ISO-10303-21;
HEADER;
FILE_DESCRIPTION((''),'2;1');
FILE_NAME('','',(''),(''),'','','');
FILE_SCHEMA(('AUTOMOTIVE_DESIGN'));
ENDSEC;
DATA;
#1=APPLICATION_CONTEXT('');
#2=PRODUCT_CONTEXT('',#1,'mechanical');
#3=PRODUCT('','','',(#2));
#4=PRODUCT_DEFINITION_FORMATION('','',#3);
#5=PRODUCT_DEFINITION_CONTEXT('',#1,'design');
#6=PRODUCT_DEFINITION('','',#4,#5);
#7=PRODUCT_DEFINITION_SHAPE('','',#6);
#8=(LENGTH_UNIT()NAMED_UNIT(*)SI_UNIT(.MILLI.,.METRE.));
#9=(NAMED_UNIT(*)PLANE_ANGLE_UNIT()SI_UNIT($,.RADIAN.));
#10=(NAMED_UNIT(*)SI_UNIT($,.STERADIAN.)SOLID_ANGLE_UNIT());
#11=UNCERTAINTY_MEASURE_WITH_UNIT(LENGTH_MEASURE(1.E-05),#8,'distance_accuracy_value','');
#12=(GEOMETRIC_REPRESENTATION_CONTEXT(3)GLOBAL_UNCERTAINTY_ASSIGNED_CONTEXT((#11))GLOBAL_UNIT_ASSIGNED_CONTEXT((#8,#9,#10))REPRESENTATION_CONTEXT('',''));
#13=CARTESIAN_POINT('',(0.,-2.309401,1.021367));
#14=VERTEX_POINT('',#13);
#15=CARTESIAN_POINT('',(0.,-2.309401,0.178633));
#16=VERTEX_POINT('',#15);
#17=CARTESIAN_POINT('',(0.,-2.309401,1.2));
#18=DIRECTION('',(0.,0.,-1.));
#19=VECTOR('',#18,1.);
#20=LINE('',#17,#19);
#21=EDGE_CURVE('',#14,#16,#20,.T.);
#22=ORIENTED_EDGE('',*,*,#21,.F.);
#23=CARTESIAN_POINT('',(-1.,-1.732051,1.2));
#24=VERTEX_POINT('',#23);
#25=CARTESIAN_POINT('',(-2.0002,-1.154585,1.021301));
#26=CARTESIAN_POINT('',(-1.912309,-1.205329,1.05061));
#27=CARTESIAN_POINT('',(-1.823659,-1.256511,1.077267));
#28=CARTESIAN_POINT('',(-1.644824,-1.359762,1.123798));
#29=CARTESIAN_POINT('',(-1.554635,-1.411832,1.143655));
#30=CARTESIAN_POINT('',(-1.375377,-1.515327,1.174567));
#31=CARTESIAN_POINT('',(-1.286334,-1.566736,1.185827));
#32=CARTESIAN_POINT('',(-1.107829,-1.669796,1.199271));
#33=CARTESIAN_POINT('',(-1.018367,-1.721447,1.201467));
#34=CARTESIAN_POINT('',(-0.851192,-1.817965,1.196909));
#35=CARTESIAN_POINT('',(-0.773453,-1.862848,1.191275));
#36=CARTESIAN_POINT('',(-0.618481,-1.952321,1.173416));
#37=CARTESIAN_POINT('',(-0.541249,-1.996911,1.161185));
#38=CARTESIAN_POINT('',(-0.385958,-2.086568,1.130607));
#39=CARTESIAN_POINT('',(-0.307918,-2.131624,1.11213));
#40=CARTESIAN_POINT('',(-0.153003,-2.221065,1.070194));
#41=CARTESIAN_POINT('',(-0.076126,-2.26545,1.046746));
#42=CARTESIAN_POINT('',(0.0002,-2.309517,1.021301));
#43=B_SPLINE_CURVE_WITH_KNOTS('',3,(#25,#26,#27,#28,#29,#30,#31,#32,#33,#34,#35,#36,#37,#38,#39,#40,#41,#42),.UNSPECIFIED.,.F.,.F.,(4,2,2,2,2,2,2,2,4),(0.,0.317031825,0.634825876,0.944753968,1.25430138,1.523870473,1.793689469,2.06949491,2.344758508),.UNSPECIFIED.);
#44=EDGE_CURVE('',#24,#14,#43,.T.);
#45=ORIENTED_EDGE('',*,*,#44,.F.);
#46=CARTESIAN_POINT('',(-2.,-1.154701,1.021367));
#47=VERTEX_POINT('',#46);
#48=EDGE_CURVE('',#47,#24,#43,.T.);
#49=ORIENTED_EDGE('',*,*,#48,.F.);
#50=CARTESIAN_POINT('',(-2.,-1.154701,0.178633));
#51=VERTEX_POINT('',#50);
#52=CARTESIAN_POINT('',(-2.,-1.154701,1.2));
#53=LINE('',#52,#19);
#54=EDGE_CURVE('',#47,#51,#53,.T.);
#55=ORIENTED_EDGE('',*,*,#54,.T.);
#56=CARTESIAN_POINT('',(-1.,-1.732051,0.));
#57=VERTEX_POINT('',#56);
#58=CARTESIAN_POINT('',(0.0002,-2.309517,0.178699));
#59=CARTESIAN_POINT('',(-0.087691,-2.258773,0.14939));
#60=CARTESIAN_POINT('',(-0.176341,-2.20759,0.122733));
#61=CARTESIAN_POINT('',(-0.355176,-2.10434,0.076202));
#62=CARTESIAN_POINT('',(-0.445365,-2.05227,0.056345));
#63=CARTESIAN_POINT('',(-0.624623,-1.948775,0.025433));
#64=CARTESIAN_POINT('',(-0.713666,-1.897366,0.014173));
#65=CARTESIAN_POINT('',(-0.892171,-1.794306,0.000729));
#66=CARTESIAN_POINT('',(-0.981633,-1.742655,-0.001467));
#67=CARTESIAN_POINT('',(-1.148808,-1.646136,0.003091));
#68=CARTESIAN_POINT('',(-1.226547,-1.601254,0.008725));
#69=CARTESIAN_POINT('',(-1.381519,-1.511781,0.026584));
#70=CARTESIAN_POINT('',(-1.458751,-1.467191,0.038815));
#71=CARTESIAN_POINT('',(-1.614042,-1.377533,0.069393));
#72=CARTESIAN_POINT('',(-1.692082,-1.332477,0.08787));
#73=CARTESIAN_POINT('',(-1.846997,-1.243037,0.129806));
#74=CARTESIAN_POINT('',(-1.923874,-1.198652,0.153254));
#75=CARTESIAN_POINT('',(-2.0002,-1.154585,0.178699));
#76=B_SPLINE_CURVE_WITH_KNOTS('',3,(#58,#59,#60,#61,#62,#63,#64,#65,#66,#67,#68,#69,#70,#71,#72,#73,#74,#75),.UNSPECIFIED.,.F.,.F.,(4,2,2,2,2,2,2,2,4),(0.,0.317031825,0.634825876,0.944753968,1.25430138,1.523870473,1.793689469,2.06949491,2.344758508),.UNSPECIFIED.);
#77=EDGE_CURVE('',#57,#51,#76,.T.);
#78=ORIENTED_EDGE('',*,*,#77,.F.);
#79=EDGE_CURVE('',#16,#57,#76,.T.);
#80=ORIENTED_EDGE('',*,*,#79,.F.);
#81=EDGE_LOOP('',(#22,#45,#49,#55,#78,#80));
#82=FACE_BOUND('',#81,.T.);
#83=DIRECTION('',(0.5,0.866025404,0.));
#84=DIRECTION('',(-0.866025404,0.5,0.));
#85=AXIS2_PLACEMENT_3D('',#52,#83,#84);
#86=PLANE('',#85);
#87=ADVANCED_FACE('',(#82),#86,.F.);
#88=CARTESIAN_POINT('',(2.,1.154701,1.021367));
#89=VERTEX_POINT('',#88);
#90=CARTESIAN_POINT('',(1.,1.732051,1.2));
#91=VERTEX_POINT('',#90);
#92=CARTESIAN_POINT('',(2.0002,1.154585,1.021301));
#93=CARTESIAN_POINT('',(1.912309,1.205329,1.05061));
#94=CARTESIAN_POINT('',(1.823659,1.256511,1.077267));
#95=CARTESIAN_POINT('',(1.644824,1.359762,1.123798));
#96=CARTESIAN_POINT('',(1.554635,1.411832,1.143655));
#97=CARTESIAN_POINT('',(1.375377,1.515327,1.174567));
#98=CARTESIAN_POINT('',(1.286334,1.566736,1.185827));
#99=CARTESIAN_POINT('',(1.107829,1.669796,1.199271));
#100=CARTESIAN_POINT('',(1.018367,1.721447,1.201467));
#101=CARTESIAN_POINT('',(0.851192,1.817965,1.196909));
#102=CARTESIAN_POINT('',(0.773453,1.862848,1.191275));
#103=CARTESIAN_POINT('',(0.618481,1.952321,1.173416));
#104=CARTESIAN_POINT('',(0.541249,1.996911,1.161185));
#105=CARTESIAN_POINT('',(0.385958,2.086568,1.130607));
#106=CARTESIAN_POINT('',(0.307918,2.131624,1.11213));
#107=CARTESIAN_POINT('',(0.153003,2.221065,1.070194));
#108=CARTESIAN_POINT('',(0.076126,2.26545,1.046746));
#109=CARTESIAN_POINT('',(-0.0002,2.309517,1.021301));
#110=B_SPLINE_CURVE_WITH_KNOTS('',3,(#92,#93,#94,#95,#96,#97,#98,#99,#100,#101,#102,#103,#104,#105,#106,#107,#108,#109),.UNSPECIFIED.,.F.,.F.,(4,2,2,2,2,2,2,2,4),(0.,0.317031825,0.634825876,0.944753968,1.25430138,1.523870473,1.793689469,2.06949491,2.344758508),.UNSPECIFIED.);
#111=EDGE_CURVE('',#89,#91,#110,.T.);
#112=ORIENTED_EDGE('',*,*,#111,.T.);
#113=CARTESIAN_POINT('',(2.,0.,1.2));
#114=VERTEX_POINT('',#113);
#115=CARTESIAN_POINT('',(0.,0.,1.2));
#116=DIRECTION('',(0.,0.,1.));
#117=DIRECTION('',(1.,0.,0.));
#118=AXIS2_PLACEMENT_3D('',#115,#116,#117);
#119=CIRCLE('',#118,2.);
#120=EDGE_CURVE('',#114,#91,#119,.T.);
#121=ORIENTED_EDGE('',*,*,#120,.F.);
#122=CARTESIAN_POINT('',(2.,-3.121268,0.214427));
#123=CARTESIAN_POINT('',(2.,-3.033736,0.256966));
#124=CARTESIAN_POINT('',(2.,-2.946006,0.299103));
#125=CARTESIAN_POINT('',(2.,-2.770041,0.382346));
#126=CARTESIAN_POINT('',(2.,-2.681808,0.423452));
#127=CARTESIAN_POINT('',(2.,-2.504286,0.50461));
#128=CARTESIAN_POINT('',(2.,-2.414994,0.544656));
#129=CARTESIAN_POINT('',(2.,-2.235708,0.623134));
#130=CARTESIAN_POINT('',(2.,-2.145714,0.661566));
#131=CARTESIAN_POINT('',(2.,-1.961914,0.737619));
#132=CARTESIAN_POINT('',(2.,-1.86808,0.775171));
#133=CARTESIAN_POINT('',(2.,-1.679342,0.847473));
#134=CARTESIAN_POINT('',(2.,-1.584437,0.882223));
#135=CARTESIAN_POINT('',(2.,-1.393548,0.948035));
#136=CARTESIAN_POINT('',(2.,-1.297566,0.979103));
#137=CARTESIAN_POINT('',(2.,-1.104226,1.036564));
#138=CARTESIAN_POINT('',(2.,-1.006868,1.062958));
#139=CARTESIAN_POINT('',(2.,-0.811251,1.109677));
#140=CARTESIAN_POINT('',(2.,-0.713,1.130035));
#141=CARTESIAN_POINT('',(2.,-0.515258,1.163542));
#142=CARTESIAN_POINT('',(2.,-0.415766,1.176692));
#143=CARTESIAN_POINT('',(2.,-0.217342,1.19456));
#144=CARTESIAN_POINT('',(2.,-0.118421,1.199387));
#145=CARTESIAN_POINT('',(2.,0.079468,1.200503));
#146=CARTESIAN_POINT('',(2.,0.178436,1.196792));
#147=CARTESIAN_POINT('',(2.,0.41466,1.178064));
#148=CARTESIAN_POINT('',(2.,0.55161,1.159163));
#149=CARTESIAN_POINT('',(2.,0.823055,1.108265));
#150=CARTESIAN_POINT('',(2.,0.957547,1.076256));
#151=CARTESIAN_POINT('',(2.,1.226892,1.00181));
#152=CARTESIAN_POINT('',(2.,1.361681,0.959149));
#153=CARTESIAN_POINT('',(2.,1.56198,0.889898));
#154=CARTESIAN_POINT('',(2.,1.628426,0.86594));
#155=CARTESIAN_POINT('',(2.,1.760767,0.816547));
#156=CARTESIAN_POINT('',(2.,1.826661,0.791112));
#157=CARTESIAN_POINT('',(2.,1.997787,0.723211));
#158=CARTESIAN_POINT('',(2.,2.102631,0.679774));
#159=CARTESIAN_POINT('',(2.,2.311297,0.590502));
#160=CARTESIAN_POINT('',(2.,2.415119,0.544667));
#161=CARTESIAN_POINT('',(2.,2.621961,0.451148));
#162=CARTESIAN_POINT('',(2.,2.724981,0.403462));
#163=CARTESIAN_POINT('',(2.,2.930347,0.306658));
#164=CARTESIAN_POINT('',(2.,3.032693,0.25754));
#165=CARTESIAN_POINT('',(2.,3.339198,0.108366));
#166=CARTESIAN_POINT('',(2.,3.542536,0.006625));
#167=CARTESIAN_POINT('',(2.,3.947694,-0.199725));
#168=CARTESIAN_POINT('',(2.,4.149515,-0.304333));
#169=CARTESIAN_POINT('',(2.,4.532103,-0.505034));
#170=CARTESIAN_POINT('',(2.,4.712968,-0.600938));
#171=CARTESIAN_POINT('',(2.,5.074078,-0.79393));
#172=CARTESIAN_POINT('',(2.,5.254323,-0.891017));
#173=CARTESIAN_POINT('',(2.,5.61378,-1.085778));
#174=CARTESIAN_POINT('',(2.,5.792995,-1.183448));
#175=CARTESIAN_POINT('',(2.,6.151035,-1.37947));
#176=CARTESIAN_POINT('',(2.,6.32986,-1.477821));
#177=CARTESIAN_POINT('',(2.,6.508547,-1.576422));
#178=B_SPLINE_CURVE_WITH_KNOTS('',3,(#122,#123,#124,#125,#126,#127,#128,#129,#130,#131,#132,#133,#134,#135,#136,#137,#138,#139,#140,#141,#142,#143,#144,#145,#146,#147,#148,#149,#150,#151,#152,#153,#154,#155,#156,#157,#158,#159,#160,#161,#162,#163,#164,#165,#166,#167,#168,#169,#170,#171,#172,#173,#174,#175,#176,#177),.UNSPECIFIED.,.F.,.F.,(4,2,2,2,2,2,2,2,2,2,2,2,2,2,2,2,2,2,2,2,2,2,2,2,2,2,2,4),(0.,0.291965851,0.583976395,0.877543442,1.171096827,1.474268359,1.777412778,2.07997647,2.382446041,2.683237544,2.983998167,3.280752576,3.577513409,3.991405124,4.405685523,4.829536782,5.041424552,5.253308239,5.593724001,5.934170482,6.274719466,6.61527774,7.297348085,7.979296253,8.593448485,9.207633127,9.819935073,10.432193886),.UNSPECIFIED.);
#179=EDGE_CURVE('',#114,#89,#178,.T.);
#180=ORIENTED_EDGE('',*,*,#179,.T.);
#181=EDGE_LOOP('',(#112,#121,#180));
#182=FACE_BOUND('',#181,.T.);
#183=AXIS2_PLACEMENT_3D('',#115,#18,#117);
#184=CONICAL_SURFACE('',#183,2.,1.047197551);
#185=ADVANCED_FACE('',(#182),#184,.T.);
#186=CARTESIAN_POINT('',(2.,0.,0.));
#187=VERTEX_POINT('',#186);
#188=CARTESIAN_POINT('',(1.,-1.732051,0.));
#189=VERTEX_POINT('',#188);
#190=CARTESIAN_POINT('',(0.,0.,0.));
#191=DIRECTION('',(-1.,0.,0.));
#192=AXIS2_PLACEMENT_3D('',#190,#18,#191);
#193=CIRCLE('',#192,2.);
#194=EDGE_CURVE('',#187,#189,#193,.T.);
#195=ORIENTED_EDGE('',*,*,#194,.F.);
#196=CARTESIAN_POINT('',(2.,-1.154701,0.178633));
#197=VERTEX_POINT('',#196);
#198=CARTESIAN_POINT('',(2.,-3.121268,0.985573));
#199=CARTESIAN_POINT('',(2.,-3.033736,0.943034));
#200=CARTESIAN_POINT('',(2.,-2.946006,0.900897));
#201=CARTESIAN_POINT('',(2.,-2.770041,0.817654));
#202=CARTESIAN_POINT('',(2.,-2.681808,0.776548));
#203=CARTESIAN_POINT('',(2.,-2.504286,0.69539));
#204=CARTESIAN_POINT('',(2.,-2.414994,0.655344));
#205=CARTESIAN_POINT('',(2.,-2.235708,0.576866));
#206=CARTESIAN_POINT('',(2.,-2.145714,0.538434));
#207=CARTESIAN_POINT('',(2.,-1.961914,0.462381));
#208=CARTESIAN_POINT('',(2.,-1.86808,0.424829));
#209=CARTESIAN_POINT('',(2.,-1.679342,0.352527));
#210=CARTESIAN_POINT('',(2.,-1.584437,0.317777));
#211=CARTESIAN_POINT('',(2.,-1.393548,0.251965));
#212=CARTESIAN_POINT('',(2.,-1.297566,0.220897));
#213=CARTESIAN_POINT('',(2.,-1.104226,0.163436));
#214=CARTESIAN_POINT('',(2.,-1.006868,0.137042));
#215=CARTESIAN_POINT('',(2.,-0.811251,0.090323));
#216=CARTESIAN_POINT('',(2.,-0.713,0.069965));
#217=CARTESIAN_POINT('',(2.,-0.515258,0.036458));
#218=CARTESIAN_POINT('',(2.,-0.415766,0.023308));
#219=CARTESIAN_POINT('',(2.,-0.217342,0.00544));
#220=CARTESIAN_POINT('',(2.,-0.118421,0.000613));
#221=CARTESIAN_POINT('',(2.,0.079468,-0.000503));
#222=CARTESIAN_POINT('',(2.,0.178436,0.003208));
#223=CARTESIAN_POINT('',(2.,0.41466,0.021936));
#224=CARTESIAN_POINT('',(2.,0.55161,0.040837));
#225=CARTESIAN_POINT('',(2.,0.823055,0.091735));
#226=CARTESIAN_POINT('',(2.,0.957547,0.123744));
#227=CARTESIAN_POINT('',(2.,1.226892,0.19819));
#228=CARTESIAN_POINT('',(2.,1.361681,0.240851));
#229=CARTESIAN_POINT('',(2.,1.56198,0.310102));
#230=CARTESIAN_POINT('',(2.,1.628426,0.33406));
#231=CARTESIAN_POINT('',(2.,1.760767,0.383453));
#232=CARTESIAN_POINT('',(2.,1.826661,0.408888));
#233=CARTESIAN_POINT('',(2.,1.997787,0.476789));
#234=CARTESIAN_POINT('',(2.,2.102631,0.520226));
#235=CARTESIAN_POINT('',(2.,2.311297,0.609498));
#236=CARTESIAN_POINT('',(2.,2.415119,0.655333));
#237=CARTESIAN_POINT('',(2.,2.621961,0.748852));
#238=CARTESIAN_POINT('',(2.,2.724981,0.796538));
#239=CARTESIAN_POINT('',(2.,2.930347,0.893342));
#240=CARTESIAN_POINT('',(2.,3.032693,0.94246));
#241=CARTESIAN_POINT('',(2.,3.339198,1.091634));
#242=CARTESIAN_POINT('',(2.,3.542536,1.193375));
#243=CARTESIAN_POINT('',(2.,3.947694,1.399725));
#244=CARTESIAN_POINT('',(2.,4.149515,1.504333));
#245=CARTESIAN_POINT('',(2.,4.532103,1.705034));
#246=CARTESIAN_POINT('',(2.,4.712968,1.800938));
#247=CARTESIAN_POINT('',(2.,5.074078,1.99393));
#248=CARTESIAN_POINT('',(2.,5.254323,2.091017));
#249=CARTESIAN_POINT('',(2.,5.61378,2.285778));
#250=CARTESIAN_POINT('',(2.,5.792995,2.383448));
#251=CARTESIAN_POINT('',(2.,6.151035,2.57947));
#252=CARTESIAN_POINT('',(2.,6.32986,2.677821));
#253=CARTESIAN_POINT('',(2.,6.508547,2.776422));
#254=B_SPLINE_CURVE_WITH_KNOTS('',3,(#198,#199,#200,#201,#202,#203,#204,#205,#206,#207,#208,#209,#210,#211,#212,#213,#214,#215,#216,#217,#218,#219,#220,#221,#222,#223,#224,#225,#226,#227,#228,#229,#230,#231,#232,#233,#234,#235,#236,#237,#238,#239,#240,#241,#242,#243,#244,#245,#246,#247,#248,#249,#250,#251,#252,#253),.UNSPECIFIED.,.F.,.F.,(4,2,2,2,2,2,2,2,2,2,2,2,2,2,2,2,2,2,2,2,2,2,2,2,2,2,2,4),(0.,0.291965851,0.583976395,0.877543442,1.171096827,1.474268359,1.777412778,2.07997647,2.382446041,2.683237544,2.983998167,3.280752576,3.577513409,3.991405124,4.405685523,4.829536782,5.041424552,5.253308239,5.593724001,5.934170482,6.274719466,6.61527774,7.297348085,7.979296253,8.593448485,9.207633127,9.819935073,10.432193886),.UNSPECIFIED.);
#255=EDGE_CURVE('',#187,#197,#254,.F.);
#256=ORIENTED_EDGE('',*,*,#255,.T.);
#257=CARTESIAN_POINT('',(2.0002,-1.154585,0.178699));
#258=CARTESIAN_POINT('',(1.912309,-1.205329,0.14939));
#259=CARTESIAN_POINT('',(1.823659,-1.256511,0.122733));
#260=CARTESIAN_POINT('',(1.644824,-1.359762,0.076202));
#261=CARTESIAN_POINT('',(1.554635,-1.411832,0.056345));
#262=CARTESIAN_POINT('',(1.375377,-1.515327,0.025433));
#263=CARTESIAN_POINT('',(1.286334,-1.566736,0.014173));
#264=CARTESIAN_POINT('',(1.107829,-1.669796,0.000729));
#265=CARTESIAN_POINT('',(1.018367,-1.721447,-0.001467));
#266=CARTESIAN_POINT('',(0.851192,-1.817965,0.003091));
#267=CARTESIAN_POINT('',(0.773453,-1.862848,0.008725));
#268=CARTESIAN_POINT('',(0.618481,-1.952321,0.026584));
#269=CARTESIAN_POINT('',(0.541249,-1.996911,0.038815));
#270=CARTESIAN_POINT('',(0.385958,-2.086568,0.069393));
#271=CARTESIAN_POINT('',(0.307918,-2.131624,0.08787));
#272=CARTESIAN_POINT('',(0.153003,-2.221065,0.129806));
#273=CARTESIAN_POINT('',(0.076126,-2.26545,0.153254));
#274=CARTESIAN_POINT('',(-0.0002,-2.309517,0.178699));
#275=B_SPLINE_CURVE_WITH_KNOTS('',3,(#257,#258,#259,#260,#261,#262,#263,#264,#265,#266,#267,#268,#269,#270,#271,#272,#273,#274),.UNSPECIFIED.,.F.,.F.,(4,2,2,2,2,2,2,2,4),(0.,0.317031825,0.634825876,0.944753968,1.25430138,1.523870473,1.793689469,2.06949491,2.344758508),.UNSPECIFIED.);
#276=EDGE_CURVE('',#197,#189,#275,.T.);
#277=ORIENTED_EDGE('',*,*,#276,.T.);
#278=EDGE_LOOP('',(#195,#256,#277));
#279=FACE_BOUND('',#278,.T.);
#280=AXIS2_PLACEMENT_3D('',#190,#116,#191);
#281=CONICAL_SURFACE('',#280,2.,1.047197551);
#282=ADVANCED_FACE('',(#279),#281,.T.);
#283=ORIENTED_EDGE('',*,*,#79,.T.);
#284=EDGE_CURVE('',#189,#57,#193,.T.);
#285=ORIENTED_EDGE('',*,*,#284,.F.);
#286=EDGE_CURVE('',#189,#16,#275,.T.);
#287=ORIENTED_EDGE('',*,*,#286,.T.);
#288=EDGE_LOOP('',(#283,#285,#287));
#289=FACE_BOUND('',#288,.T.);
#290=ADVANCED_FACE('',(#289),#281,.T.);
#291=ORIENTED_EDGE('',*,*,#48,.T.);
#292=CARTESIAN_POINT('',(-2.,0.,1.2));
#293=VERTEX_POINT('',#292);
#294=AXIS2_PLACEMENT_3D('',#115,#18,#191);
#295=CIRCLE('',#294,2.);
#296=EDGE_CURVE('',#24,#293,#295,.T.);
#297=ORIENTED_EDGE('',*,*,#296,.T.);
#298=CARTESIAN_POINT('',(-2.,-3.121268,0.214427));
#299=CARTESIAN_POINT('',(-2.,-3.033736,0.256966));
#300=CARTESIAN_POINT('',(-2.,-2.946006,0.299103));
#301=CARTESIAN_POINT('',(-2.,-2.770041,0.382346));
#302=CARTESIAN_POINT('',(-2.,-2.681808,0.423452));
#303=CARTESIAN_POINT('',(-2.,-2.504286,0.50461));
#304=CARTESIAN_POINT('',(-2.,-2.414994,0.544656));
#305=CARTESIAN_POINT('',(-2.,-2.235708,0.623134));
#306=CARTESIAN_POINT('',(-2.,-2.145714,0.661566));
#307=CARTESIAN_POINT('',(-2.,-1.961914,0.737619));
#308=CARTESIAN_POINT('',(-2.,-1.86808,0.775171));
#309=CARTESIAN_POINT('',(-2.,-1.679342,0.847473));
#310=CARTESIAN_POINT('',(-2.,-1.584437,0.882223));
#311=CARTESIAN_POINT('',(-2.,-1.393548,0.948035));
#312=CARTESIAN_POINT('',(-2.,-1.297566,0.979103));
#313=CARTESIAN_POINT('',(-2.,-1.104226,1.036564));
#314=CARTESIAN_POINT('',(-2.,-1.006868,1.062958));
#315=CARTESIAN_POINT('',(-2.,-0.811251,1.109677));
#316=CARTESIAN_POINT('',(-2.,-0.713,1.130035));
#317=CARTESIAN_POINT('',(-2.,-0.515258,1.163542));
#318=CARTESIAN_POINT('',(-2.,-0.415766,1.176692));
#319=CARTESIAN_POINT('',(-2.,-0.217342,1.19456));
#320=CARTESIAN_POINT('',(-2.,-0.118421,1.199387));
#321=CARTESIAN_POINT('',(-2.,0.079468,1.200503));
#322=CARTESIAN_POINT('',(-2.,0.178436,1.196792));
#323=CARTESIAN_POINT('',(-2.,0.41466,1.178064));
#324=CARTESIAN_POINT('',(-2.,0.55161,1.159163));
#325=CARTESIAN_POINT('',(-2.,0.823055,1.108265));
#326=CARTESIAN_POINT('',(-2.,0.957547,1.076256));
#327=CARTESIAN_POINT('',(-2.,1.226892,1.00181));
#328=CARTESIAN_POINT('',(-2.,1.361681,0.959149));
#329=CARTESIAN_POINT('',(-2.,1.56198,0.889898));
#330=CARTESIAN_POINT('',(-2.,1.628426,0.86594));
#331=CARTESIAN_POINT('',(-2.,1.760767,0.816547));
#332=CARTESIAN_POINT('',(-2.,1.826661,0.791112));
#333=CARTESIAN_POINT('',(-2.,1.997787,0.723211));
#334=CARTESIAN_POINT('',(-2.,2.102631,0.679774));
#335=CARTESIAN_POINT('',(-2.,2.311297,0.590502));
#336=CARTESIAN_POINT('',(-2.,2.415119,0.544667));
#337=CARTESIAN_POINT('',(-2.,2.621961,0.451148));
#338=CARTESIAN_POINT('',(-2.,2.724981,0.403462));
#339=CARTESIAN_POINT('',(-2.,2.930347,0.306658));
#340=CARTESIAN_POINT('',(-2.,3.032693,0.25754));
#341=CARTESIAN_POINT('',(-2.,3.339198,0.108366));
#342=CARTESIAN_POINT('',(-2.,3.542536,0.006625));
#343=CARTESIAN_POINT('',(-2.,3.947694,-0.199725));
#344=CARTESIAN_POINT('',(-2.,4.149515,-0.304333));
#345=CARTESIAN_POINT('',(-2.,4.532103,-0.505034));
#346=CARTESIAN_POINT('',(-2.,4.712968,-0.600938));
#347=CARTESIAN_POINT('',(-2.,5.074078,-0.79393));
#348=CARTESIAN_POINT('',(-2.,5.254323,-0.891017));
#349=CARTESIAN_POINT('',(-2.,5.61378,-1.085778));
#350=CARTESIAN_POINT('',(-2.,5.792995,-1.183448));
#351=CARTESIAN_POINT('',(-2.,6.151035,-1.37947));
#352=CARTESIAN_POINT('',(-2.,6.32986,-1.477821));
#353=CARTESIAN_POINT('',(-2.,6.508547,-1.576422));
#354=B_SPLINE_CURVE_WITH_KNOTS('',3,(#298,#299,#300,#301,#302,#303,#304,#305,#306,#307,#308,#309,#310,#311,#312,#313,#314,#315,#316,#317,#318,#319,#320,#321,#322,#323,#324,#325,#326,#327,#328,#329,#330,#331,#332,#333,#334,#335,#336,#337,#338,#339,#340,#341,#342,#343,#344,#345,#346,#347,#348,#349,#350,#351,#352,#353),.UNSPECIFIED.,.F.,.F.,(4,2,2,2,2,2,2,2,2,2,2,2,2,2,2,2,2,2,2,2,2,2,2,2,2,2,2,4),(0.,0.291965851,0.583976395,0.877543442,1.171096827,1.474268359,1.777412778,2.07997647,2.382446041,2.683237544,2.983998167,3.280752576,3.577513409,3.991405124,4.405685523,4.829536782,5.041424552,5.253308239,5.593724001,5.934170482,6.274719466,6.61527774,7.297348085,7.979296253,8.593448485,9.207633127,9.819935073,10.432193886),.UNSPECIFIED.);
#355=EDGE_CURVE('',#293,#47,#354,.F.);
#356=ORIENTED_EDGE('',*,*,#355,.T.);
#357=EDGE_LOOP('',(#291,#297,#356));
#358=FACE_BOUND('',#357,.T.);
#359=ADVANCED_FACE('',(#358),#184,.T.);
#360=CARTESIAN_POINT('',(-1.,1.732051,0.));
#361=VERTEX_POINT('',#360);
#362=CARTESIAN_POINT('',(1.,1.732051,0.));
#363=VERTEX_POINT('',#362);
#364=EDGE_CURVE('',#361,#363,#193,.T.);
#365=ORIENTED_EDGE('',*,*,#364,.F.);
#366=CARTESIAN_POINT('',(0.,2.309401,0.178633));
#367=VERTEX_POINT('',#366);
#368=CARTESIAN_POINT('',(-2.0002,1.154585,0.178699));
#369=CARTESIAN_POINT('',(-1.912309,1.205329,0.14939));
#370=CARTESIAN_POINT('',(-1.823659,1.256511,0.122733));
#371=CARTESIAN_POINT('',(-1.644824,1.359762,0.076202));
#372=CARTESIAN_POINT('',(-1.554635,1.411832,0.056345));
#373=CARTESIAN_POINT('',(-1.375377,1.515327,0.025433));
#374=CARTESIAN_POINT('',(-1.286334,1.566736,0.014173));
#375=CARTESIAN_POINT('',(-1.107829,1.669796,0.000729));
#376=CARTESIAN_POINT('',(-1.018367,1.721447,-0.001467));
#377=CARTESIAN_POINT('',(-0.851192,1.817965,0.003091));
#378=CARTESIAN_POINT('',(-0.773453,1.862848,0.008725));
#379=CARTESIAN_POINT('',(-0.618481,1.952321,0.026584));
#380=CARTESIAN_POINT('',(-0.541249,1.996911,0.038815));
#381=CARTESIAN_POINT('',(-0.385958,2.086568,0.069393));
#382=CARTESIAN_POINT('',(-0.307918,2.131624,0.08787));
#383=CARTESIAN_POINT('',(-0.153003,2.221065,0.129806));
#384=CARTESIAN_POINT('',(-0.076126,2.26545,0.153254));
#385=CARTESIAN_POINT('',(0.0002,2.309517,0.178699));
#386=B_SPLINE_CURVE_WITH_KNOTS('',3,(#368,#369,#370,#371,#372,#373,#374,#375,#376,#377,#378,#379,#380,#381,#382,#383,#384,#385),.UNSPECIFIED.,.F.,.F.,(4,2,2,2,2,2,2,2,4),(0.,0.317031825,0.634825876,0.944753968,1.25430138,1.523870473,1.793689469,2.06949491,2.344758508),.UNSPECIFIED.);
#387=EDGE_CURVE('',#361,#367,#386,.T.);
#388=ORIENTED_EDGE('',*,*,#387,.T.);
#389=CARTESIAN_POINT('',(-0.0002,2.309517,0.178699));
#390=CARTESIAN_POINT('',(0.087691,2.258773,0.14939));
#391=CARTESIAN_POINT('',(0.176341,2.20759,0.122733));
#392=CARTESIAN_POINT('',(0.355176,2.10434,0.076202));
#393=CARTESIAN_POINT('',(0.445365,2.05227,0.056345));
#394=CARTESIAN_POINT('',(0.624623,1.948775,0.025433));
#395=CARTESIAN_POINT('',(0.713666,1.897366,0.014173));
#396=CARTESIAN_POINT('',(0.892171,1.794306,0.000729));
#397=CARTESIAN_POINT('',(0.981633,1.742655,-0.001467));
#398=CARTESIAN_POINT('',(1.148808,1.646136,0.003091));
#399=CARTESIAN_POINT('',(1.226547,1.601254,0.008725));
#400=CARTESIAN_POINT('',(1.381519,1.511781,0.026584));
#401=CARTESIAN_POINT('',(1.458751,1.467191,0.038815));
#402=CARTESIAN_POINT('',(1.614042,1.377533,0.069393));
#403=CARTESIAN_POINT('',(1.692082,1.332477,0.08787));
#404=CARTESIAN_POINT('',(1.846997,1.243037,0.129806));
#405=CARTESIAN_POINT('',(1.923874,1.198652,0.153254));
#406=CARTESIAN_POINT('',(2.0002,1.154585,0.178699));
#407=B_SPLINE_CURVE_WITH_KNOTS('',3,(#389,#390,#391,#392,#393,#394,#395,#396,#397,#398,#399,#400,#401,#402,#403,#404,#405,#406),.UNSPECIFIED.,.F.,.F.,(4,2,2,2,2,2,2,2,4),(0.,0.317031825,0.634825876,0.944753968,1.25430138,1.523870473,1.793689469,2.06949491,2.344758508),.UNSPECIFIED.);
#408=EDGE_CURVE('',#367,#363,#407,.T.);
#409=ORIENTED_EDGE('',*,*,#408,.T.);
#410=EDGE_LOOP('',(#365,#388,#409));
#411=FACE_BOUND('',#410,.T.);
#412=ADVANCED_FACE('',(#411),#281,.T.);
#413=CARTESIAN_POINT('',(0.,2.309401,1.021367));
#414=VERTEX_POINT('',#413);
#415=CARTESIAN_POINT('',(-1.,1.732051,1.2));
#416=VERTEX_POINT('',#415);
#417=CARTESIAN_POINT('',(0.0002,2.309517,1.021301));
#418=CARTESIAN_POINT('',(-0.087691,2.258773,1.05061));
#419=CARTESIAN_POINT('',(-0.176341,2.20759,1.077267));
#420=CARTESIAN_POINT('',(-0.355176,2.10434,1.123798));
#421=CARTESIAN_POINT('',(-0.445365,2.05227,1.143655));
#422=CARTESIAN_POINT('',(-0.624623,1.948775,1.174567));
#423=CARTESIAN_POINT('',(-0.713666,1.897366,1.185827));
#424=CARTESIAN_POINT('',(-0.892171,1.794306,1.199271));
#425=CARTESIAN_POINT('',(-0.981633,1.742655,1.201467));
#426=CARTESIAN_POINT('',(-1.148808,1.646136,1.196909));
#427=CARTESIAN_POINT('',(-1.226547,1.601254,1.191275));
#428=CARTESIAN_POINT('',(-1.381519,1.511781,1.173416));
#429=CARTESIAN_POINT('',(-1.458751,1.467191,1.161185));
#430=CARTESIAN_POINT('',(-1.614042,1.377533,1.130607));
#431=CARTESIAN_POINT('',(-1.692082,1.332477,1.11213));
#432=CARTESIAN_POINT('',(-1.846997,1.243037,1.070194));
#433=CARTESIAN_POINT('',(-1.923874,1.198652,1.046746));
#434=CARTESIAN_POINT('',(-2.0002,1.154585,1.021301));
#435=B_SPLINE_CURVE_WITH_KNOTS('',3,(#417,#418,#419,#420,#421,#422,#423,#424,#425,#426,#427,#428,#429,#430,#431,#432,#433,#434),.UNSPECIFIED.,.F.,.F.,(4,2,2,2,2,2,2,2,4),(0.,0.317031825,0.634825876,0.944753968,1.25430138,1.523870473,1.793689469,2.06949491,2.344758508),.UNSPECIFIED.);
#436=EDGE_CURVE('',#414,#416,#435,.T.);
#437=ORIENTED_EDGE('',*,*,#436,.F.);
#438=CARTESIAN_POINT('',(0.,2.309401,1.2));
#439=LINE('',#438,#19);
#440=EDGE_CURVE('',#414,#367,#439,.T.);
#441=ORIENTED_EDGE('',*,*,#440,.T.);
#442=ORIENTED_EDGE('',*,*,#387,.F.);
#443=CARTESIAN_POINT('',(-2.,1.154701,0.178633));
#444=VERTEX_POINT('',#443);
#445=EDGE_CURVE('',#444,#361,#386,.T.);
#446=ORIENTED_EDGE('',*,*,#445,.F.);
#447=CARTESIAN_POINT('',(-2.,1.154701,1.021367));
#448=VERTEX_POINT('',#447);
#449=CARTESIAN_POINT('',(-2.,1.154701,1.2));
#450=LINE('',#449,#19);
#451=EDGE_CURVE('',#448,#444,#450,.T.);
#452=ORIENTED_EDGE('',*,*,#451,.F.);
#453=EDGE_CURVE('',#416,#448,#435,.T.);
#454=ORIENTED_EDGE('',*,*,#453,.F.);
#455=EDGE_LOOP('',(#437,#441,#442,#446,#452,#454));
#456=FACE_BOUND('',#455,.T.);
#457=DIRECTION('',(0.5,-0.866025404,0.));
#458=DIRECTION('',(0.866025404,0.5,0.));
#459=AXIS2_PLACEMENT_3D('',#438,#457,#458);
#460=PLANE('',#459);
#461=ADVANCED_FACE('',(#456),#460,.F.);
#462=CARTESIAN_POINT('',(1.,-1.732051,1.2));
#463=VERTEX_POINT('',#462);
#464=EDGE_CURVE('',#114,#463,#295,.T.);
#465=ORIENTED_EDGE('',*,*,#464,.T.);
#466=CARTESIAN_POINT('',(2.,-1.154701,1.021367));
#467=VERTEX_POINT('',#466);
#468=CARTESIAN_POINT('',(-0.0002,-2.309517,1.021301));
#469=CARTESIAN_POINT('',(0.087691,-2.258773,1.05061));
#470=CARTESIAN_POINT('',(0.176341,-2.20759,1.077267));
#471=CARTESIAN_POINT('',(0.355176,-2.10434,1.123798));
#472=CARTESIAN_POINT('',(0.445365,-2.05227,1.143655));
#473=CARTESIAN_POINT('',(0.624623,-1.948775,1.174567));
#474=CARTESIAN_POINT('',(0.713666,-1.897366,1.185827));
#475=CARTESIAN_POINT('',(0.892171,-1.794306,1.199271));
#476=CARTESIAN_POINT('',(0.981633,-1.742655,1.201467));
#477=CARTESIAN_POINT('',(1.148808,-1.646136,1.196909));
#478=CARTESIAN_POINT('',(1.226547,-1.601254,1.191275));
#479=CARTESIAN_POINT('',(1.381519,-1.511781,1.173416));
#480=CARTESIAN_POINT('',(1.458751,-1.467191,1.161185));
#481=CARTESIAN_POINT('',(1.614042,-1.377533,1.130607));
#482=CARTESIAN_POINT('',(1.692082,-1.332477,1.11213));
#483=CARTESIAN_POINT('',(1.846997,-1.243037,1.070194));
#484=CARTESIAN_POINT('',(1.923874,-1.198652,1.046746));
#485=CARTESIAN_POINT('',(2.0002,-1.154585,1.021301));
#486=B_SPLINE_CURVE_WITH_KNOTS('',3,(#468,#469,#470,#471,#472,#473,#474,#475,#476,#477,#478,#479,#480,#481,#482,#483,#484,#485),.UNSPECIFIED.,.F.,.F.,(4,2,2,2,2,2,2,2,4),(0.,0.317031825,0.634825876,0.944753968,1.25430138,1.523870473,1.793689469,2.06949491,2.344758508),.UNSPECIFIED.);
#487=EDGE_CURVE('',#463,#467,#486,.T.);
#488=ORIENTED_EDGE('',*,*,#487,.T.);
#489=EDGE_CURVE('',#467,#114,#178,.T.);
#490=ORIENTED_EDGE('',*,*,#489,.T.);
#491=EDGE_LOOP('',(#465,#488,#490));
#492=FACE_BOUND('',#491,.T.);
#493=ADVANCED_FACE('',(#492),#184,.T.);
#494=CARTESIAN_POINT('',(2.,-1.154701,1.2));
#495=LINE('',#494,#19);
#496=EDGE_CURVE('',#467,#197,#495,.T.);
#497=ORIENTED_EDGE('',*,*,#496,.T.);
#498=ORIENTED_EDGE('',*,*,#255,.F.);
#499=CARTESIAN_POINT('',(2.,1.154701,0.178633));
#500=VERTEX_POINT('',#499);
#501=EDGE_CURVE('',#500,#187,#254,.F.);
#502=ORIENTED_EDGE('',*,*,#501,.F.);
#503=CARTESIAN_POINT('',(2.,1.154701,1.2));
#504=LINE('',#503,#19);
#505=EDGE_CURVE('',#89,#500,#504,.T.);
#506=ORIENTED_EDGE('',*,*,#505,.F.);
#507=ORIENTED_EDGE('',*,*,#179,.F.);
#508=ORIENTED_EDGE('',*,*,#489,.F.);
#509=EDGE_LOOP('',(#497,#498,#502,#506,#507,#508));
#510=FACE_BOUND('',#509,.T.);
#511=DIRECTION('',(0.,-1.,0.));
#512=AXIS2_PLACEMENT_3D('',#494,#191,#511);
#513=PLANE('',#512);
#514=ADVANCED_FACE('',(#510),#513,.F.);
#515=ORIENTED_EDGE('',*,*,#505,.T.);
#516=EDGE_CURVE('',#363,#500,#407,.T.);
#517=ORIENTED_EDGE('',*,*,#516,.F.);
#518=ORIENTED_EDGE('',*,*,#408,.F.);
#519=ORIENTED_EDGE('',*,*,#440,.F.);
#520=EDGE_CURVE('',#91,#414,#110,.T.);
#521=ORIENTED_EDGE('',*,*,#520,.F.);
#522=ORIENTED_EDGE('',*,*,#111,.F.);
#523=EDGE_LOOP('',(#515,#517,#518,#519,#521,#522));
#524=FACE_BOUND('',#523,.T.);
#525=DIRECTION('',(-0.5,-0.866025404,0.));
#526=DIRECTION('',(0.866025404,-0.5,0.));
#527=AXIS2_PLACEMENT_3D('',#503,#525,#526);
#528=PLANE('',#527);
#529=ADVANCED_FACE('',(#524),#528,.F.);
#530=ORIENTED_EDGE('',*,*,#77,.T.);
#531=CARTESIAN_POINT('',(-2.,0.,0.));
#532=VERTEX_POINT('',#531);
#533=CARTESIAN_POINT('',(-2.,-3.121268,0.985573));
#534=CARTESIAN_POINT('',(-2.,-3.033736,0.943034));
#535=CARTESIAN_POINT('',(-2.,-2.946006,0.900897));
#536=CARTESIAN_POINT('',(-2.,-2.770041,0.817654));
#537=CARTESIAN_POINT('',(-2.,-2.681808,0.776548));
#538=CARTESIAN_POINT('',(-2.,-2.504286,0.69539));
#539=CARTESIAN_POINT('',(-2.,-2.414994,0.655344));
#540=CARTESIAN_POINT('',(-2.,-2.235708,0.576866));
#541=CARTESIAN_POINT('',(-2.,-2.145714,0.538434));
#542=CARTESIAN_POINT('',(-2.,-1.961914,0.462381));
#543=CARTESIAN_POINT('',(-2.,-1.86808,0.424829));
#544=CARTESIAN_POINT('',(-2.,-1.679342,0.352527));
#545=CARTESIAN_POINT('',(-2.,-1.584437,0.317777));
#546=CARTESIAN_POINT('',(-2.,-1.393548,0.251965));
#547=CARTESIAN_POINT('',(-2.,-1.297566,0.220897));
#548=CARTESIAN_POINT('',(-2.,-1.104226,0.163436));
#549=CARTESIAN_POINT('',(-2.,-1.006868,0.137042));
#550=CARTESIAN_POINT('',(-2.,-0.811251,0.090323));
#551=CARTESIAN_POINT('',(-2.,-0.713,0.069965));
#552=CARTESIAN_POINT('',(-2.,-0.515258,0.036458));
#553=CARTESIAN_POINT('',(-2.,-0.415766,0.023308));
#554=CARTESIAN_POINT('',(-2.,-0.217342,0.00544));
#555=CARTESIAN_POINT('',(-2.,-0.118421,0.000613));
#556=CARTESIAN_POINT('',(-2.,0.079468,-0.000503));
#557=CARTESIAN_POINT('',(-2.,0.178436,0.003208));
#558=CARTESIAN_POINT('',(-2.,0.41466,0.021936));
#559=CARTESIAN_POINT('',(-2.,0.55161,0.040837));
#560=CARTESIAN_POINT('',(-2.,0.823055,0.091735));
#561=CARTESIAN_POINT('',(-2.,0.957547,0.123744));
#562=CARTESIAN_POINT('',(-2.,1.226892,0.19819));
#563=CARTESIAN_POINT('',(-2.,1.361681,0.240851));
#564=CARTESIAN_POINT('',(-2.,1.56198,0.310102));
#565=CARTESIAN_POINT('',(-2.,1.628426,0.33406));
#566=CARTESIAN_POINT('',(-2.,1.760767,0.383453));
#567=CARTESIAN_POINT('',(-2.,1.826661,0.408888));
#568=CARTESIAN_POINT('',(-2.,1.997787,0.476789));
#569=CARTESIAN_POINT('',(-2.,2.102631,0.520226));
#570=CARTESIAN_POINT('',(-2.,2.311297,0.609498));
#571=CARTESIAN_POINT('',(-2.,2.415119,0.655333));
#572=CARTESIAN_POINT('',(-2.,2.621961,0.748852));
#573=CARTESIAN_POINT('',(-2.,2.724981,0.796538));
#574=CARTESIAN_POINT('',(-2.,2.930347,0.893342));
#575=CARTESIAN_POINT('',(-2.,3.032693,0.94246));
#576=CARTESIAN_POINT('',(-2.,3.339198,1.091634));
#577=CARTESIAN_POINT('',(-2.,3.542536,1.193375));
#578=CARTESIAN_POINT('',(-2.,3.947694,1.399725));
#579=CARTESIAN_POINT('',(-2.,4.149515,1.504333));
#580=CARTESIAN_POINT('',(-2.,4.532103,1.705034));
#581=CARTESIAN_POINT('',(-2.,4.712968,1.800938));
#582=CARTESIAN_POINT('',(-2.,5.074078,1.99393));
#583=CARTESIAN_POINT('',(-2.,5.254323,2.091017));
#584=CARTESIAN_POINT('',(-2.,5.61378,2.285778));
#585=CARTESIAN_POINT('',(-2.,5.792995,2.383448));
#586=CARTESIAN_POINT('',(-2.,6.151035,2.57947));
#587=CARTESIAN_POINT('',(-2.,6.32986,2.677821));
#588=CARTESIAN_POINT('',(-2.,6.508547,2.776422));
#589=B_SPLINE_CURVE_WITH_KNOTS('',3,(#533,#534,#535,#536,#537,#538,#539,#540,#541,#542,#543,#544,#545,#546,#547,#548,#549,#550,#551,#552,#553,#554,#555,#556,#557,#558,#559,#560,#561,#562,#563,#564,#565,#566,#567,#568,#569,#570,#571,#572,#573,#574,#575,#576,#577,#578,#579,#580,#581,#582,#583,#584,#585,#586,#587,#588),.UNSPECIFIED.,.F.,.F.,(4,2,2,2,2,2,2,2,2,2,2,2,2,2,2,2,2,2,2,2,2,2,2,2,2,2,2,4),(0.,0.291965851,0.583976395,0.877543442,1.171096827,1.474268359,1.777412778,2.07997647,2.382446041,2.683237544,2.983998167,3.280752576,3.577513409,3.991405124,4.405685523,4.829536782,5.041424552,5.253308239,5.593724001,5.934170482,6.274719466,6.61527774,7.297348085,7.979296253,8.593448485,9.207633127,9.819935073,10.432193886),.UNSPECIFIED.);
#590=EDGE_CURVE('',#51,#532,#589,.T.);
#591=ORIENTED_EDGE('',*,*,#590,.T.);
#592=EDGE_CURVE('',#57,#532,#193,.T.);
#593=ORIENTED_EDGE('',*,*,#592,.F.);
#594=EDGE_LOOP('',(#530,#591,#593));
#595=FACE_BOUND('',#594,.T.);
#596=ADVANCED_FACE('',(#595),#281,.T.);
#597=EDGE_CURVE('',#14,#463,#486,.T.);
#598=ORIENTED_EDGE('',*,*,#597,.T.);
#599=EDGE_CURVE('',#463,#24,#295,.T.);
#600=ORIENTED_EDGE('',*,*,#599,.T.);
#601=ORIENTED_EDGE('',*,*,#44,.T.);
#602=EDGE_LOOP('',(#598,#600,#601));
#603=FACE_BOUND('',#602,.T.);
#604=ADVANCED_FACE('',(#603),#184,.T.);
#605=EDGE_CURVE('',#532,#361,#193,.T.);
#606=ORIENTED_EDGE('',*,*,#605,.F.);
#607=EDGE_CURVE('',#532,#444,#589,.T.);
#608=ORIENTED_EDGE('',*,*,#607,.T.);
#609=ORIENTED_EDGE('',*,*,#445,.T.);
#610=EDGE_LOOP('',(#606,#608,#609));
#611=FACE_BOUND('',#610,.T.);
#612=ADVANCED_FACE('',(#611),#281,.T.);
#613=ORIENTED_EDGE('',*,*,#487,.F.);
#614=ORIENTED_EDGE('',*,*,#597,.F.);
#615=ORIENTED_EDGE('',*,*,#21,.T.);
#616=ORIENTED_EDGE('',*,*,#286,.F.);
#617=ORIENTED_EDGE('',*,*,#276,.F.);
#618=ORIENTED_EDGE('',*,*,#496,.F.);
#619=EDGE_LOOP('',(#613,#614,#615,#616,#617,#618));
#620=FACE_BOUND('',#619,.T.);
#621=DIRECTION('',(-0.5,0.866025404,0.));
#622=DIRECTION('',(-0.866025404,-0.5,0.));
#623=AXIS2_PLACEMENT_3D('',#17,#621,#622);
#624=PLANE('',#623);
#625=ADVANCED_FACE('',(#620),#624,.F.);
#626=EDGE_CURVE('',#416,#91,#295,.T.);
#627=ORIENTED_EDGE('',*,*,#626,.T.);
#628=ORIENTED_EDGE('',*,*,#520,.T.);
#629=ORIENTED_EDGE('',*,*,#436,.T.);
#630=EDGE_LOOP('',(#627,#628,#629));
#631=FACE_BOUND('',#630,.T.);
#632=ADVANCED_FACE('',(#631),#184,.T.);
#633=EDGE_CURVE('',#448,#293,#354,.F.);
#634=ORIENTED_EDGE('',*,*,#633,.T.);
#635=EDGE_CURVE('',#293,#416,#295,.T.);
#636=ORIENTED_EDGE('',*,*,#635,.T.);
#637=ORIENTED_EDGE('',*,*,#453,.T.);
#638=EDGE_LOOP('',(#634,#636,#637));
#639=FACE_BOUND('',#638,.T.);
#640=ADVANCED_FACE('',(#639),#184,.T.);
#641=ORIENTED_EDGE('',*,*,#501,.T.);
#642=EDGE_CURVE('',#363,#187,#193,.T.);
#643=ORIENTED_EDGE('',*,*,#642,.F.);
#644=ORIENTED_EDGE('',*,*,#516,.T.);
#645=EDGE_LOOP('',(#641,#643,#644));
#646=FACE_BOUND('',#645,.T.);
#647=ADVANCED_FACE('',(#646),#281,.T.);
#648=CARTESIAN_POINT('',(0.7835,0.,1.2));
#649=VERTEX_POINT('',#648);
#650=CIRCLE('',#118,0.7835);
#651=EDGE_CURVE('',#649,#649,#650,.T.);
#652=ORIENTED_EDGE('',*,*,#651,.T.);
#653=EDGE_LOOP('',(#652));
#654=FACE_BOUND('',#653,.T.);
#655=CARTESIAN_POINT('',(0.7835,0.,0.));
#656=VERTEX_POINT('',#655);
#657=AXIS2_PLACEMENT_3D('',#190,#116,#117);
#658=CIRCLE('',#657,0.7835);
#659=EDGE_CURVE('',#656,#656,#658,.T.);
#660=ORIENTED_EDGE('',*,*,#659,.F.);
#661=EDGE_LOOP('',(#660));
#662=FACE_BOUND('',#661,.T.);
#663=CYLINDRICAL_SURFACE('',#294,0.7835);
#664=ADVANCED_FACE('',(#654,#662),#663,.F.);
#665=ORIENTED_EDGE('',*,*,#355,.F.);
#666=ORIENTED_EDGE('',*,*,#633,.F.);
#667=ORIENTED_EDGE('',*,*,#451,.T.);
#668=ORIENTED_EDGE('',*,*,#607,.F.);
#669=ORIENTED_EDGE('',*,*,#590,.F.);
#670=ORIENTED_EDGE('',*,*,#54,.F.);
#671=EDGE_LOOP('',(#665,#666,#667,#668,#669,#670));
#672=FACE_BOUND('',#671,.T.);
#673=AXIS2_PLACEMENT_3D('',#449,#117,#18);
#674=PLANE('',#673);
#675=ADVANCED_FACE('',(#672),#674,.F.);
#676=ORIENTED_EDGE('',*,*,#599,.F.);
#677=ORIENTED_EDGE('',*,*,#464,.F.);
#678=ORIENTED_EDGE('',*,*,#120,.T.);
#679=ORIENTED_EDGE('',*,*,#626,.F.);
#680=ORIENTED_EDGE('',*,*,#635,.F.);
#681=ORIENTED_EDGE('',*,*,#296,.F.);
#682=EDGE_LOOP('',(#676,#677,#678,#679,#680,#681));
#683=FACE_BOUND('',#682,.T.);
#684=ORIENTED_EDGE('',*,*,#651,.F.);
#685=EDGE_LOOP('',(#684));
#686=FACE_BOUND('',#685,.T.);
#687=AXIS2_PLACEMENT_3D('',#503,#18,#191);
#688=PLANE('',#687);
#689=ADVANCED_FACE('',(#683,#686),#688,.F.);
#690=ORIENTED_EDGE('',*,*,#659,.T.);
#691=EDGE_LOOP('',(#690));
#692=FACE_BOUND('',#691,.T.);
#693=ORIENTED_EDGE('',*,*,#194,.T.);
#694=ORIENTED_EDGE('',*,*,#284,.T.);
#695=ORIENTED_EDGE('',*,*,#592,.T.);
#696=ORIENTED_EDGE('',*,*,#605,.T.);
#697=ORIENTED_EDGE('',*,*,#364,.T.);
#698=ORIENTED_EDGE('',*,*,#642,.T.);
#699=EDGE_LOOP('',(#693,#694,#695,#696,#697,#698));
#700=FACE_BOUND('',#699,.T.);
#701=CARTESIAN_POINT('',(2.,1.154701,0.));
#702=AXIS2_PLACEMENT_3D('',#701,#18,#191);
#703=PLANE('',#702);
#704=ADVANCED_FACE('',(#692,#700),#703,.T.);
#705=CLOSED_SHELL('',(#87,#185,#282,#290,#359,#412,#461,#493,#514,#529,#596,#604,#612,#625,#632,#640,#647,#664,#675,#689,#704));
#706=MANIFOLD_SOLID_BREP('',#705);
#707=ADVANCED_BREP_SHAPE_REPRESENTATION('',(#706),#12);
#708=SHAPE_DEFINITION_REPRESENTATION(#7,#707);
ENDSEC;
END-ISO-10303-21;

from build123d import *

# Parameters (mm, degrees)
SKETCH_1_R          = 0.7835
EXTRUDE_581_DEPTH   = 1.2
SKETCH_2_OUTSIDE_W  = 14.866
SKETCH_2_OUTSIDE_H  = 15.484
SKETCH_2_OUTSIDE_R  = 2
CUT_EXTRUDE_1_DEPTH = 2.2
CUT_EXTRUDE_1_TAPER = 60
SKETCH_3_OUTSIDE_W  = 14.866
SKETCH_3_OUTSIDE_H  = 15.484
SKETCH_3_OUTSIDE_R  = 2
CUT_EXTRUDE_2_DEPTH = 2.2
CUT_EXTRUDE_2_TAPER = 60


with BuildPart() as part:
    # 草图1 → Extrude 581 (new body)
    with BuildSketch(Plane.XY):
        Polygon((0, 2.309401077), (-2, 1.154700538), (-2, -1.154700538), (0, -2.309401077), (2, -1.154700538), (2, 1.154700538), align=None)
        Circle(SKETCH_1_R, mode=Mode.SUBTRACT)
    extrude(amount=EXTRUDE_581_DEPTH)

    # 草图2 outside → 切除-拉伸1 (cut, through all)
    with BuildSketch(Plane(origin=(0, 0, 0), x_dir=(-1, 0, 0), z_dir=(0, 0, -1))):
        Rectangle(SKETCH_2_OUTSIDE_W, SKETCH_2_OUTSIDE_H)
        Circle(SKETCH_2_OUTSIDE_R, mode=Mode.SUBTRACT)
    extrude(amount=-CUT_EXTRUDE_1_DEPTH, taper=CUT_EXTRUDE_1_TAPER, mode=Mode.SUBTRACT)

    # 草图3 outside → 切除-拉伸2 (cut, through all)
    with BuildSketch(Plane.XY.offset(1.2)):
        Rectangle(SKETCH_3_OUTSIDE_W, SKETCH_3_OUTSIDE_H)
        Circle(SKETCH_3_OUTSIDE_R, mode=Mode.SUBTRACT)
    extrude(amount=-CUT_EXTRUDE_2_DEPTH, taper=CUT_EXTRUDE_2_TAPER, mode=Mode.SUBTRACT)


solid = part.part
